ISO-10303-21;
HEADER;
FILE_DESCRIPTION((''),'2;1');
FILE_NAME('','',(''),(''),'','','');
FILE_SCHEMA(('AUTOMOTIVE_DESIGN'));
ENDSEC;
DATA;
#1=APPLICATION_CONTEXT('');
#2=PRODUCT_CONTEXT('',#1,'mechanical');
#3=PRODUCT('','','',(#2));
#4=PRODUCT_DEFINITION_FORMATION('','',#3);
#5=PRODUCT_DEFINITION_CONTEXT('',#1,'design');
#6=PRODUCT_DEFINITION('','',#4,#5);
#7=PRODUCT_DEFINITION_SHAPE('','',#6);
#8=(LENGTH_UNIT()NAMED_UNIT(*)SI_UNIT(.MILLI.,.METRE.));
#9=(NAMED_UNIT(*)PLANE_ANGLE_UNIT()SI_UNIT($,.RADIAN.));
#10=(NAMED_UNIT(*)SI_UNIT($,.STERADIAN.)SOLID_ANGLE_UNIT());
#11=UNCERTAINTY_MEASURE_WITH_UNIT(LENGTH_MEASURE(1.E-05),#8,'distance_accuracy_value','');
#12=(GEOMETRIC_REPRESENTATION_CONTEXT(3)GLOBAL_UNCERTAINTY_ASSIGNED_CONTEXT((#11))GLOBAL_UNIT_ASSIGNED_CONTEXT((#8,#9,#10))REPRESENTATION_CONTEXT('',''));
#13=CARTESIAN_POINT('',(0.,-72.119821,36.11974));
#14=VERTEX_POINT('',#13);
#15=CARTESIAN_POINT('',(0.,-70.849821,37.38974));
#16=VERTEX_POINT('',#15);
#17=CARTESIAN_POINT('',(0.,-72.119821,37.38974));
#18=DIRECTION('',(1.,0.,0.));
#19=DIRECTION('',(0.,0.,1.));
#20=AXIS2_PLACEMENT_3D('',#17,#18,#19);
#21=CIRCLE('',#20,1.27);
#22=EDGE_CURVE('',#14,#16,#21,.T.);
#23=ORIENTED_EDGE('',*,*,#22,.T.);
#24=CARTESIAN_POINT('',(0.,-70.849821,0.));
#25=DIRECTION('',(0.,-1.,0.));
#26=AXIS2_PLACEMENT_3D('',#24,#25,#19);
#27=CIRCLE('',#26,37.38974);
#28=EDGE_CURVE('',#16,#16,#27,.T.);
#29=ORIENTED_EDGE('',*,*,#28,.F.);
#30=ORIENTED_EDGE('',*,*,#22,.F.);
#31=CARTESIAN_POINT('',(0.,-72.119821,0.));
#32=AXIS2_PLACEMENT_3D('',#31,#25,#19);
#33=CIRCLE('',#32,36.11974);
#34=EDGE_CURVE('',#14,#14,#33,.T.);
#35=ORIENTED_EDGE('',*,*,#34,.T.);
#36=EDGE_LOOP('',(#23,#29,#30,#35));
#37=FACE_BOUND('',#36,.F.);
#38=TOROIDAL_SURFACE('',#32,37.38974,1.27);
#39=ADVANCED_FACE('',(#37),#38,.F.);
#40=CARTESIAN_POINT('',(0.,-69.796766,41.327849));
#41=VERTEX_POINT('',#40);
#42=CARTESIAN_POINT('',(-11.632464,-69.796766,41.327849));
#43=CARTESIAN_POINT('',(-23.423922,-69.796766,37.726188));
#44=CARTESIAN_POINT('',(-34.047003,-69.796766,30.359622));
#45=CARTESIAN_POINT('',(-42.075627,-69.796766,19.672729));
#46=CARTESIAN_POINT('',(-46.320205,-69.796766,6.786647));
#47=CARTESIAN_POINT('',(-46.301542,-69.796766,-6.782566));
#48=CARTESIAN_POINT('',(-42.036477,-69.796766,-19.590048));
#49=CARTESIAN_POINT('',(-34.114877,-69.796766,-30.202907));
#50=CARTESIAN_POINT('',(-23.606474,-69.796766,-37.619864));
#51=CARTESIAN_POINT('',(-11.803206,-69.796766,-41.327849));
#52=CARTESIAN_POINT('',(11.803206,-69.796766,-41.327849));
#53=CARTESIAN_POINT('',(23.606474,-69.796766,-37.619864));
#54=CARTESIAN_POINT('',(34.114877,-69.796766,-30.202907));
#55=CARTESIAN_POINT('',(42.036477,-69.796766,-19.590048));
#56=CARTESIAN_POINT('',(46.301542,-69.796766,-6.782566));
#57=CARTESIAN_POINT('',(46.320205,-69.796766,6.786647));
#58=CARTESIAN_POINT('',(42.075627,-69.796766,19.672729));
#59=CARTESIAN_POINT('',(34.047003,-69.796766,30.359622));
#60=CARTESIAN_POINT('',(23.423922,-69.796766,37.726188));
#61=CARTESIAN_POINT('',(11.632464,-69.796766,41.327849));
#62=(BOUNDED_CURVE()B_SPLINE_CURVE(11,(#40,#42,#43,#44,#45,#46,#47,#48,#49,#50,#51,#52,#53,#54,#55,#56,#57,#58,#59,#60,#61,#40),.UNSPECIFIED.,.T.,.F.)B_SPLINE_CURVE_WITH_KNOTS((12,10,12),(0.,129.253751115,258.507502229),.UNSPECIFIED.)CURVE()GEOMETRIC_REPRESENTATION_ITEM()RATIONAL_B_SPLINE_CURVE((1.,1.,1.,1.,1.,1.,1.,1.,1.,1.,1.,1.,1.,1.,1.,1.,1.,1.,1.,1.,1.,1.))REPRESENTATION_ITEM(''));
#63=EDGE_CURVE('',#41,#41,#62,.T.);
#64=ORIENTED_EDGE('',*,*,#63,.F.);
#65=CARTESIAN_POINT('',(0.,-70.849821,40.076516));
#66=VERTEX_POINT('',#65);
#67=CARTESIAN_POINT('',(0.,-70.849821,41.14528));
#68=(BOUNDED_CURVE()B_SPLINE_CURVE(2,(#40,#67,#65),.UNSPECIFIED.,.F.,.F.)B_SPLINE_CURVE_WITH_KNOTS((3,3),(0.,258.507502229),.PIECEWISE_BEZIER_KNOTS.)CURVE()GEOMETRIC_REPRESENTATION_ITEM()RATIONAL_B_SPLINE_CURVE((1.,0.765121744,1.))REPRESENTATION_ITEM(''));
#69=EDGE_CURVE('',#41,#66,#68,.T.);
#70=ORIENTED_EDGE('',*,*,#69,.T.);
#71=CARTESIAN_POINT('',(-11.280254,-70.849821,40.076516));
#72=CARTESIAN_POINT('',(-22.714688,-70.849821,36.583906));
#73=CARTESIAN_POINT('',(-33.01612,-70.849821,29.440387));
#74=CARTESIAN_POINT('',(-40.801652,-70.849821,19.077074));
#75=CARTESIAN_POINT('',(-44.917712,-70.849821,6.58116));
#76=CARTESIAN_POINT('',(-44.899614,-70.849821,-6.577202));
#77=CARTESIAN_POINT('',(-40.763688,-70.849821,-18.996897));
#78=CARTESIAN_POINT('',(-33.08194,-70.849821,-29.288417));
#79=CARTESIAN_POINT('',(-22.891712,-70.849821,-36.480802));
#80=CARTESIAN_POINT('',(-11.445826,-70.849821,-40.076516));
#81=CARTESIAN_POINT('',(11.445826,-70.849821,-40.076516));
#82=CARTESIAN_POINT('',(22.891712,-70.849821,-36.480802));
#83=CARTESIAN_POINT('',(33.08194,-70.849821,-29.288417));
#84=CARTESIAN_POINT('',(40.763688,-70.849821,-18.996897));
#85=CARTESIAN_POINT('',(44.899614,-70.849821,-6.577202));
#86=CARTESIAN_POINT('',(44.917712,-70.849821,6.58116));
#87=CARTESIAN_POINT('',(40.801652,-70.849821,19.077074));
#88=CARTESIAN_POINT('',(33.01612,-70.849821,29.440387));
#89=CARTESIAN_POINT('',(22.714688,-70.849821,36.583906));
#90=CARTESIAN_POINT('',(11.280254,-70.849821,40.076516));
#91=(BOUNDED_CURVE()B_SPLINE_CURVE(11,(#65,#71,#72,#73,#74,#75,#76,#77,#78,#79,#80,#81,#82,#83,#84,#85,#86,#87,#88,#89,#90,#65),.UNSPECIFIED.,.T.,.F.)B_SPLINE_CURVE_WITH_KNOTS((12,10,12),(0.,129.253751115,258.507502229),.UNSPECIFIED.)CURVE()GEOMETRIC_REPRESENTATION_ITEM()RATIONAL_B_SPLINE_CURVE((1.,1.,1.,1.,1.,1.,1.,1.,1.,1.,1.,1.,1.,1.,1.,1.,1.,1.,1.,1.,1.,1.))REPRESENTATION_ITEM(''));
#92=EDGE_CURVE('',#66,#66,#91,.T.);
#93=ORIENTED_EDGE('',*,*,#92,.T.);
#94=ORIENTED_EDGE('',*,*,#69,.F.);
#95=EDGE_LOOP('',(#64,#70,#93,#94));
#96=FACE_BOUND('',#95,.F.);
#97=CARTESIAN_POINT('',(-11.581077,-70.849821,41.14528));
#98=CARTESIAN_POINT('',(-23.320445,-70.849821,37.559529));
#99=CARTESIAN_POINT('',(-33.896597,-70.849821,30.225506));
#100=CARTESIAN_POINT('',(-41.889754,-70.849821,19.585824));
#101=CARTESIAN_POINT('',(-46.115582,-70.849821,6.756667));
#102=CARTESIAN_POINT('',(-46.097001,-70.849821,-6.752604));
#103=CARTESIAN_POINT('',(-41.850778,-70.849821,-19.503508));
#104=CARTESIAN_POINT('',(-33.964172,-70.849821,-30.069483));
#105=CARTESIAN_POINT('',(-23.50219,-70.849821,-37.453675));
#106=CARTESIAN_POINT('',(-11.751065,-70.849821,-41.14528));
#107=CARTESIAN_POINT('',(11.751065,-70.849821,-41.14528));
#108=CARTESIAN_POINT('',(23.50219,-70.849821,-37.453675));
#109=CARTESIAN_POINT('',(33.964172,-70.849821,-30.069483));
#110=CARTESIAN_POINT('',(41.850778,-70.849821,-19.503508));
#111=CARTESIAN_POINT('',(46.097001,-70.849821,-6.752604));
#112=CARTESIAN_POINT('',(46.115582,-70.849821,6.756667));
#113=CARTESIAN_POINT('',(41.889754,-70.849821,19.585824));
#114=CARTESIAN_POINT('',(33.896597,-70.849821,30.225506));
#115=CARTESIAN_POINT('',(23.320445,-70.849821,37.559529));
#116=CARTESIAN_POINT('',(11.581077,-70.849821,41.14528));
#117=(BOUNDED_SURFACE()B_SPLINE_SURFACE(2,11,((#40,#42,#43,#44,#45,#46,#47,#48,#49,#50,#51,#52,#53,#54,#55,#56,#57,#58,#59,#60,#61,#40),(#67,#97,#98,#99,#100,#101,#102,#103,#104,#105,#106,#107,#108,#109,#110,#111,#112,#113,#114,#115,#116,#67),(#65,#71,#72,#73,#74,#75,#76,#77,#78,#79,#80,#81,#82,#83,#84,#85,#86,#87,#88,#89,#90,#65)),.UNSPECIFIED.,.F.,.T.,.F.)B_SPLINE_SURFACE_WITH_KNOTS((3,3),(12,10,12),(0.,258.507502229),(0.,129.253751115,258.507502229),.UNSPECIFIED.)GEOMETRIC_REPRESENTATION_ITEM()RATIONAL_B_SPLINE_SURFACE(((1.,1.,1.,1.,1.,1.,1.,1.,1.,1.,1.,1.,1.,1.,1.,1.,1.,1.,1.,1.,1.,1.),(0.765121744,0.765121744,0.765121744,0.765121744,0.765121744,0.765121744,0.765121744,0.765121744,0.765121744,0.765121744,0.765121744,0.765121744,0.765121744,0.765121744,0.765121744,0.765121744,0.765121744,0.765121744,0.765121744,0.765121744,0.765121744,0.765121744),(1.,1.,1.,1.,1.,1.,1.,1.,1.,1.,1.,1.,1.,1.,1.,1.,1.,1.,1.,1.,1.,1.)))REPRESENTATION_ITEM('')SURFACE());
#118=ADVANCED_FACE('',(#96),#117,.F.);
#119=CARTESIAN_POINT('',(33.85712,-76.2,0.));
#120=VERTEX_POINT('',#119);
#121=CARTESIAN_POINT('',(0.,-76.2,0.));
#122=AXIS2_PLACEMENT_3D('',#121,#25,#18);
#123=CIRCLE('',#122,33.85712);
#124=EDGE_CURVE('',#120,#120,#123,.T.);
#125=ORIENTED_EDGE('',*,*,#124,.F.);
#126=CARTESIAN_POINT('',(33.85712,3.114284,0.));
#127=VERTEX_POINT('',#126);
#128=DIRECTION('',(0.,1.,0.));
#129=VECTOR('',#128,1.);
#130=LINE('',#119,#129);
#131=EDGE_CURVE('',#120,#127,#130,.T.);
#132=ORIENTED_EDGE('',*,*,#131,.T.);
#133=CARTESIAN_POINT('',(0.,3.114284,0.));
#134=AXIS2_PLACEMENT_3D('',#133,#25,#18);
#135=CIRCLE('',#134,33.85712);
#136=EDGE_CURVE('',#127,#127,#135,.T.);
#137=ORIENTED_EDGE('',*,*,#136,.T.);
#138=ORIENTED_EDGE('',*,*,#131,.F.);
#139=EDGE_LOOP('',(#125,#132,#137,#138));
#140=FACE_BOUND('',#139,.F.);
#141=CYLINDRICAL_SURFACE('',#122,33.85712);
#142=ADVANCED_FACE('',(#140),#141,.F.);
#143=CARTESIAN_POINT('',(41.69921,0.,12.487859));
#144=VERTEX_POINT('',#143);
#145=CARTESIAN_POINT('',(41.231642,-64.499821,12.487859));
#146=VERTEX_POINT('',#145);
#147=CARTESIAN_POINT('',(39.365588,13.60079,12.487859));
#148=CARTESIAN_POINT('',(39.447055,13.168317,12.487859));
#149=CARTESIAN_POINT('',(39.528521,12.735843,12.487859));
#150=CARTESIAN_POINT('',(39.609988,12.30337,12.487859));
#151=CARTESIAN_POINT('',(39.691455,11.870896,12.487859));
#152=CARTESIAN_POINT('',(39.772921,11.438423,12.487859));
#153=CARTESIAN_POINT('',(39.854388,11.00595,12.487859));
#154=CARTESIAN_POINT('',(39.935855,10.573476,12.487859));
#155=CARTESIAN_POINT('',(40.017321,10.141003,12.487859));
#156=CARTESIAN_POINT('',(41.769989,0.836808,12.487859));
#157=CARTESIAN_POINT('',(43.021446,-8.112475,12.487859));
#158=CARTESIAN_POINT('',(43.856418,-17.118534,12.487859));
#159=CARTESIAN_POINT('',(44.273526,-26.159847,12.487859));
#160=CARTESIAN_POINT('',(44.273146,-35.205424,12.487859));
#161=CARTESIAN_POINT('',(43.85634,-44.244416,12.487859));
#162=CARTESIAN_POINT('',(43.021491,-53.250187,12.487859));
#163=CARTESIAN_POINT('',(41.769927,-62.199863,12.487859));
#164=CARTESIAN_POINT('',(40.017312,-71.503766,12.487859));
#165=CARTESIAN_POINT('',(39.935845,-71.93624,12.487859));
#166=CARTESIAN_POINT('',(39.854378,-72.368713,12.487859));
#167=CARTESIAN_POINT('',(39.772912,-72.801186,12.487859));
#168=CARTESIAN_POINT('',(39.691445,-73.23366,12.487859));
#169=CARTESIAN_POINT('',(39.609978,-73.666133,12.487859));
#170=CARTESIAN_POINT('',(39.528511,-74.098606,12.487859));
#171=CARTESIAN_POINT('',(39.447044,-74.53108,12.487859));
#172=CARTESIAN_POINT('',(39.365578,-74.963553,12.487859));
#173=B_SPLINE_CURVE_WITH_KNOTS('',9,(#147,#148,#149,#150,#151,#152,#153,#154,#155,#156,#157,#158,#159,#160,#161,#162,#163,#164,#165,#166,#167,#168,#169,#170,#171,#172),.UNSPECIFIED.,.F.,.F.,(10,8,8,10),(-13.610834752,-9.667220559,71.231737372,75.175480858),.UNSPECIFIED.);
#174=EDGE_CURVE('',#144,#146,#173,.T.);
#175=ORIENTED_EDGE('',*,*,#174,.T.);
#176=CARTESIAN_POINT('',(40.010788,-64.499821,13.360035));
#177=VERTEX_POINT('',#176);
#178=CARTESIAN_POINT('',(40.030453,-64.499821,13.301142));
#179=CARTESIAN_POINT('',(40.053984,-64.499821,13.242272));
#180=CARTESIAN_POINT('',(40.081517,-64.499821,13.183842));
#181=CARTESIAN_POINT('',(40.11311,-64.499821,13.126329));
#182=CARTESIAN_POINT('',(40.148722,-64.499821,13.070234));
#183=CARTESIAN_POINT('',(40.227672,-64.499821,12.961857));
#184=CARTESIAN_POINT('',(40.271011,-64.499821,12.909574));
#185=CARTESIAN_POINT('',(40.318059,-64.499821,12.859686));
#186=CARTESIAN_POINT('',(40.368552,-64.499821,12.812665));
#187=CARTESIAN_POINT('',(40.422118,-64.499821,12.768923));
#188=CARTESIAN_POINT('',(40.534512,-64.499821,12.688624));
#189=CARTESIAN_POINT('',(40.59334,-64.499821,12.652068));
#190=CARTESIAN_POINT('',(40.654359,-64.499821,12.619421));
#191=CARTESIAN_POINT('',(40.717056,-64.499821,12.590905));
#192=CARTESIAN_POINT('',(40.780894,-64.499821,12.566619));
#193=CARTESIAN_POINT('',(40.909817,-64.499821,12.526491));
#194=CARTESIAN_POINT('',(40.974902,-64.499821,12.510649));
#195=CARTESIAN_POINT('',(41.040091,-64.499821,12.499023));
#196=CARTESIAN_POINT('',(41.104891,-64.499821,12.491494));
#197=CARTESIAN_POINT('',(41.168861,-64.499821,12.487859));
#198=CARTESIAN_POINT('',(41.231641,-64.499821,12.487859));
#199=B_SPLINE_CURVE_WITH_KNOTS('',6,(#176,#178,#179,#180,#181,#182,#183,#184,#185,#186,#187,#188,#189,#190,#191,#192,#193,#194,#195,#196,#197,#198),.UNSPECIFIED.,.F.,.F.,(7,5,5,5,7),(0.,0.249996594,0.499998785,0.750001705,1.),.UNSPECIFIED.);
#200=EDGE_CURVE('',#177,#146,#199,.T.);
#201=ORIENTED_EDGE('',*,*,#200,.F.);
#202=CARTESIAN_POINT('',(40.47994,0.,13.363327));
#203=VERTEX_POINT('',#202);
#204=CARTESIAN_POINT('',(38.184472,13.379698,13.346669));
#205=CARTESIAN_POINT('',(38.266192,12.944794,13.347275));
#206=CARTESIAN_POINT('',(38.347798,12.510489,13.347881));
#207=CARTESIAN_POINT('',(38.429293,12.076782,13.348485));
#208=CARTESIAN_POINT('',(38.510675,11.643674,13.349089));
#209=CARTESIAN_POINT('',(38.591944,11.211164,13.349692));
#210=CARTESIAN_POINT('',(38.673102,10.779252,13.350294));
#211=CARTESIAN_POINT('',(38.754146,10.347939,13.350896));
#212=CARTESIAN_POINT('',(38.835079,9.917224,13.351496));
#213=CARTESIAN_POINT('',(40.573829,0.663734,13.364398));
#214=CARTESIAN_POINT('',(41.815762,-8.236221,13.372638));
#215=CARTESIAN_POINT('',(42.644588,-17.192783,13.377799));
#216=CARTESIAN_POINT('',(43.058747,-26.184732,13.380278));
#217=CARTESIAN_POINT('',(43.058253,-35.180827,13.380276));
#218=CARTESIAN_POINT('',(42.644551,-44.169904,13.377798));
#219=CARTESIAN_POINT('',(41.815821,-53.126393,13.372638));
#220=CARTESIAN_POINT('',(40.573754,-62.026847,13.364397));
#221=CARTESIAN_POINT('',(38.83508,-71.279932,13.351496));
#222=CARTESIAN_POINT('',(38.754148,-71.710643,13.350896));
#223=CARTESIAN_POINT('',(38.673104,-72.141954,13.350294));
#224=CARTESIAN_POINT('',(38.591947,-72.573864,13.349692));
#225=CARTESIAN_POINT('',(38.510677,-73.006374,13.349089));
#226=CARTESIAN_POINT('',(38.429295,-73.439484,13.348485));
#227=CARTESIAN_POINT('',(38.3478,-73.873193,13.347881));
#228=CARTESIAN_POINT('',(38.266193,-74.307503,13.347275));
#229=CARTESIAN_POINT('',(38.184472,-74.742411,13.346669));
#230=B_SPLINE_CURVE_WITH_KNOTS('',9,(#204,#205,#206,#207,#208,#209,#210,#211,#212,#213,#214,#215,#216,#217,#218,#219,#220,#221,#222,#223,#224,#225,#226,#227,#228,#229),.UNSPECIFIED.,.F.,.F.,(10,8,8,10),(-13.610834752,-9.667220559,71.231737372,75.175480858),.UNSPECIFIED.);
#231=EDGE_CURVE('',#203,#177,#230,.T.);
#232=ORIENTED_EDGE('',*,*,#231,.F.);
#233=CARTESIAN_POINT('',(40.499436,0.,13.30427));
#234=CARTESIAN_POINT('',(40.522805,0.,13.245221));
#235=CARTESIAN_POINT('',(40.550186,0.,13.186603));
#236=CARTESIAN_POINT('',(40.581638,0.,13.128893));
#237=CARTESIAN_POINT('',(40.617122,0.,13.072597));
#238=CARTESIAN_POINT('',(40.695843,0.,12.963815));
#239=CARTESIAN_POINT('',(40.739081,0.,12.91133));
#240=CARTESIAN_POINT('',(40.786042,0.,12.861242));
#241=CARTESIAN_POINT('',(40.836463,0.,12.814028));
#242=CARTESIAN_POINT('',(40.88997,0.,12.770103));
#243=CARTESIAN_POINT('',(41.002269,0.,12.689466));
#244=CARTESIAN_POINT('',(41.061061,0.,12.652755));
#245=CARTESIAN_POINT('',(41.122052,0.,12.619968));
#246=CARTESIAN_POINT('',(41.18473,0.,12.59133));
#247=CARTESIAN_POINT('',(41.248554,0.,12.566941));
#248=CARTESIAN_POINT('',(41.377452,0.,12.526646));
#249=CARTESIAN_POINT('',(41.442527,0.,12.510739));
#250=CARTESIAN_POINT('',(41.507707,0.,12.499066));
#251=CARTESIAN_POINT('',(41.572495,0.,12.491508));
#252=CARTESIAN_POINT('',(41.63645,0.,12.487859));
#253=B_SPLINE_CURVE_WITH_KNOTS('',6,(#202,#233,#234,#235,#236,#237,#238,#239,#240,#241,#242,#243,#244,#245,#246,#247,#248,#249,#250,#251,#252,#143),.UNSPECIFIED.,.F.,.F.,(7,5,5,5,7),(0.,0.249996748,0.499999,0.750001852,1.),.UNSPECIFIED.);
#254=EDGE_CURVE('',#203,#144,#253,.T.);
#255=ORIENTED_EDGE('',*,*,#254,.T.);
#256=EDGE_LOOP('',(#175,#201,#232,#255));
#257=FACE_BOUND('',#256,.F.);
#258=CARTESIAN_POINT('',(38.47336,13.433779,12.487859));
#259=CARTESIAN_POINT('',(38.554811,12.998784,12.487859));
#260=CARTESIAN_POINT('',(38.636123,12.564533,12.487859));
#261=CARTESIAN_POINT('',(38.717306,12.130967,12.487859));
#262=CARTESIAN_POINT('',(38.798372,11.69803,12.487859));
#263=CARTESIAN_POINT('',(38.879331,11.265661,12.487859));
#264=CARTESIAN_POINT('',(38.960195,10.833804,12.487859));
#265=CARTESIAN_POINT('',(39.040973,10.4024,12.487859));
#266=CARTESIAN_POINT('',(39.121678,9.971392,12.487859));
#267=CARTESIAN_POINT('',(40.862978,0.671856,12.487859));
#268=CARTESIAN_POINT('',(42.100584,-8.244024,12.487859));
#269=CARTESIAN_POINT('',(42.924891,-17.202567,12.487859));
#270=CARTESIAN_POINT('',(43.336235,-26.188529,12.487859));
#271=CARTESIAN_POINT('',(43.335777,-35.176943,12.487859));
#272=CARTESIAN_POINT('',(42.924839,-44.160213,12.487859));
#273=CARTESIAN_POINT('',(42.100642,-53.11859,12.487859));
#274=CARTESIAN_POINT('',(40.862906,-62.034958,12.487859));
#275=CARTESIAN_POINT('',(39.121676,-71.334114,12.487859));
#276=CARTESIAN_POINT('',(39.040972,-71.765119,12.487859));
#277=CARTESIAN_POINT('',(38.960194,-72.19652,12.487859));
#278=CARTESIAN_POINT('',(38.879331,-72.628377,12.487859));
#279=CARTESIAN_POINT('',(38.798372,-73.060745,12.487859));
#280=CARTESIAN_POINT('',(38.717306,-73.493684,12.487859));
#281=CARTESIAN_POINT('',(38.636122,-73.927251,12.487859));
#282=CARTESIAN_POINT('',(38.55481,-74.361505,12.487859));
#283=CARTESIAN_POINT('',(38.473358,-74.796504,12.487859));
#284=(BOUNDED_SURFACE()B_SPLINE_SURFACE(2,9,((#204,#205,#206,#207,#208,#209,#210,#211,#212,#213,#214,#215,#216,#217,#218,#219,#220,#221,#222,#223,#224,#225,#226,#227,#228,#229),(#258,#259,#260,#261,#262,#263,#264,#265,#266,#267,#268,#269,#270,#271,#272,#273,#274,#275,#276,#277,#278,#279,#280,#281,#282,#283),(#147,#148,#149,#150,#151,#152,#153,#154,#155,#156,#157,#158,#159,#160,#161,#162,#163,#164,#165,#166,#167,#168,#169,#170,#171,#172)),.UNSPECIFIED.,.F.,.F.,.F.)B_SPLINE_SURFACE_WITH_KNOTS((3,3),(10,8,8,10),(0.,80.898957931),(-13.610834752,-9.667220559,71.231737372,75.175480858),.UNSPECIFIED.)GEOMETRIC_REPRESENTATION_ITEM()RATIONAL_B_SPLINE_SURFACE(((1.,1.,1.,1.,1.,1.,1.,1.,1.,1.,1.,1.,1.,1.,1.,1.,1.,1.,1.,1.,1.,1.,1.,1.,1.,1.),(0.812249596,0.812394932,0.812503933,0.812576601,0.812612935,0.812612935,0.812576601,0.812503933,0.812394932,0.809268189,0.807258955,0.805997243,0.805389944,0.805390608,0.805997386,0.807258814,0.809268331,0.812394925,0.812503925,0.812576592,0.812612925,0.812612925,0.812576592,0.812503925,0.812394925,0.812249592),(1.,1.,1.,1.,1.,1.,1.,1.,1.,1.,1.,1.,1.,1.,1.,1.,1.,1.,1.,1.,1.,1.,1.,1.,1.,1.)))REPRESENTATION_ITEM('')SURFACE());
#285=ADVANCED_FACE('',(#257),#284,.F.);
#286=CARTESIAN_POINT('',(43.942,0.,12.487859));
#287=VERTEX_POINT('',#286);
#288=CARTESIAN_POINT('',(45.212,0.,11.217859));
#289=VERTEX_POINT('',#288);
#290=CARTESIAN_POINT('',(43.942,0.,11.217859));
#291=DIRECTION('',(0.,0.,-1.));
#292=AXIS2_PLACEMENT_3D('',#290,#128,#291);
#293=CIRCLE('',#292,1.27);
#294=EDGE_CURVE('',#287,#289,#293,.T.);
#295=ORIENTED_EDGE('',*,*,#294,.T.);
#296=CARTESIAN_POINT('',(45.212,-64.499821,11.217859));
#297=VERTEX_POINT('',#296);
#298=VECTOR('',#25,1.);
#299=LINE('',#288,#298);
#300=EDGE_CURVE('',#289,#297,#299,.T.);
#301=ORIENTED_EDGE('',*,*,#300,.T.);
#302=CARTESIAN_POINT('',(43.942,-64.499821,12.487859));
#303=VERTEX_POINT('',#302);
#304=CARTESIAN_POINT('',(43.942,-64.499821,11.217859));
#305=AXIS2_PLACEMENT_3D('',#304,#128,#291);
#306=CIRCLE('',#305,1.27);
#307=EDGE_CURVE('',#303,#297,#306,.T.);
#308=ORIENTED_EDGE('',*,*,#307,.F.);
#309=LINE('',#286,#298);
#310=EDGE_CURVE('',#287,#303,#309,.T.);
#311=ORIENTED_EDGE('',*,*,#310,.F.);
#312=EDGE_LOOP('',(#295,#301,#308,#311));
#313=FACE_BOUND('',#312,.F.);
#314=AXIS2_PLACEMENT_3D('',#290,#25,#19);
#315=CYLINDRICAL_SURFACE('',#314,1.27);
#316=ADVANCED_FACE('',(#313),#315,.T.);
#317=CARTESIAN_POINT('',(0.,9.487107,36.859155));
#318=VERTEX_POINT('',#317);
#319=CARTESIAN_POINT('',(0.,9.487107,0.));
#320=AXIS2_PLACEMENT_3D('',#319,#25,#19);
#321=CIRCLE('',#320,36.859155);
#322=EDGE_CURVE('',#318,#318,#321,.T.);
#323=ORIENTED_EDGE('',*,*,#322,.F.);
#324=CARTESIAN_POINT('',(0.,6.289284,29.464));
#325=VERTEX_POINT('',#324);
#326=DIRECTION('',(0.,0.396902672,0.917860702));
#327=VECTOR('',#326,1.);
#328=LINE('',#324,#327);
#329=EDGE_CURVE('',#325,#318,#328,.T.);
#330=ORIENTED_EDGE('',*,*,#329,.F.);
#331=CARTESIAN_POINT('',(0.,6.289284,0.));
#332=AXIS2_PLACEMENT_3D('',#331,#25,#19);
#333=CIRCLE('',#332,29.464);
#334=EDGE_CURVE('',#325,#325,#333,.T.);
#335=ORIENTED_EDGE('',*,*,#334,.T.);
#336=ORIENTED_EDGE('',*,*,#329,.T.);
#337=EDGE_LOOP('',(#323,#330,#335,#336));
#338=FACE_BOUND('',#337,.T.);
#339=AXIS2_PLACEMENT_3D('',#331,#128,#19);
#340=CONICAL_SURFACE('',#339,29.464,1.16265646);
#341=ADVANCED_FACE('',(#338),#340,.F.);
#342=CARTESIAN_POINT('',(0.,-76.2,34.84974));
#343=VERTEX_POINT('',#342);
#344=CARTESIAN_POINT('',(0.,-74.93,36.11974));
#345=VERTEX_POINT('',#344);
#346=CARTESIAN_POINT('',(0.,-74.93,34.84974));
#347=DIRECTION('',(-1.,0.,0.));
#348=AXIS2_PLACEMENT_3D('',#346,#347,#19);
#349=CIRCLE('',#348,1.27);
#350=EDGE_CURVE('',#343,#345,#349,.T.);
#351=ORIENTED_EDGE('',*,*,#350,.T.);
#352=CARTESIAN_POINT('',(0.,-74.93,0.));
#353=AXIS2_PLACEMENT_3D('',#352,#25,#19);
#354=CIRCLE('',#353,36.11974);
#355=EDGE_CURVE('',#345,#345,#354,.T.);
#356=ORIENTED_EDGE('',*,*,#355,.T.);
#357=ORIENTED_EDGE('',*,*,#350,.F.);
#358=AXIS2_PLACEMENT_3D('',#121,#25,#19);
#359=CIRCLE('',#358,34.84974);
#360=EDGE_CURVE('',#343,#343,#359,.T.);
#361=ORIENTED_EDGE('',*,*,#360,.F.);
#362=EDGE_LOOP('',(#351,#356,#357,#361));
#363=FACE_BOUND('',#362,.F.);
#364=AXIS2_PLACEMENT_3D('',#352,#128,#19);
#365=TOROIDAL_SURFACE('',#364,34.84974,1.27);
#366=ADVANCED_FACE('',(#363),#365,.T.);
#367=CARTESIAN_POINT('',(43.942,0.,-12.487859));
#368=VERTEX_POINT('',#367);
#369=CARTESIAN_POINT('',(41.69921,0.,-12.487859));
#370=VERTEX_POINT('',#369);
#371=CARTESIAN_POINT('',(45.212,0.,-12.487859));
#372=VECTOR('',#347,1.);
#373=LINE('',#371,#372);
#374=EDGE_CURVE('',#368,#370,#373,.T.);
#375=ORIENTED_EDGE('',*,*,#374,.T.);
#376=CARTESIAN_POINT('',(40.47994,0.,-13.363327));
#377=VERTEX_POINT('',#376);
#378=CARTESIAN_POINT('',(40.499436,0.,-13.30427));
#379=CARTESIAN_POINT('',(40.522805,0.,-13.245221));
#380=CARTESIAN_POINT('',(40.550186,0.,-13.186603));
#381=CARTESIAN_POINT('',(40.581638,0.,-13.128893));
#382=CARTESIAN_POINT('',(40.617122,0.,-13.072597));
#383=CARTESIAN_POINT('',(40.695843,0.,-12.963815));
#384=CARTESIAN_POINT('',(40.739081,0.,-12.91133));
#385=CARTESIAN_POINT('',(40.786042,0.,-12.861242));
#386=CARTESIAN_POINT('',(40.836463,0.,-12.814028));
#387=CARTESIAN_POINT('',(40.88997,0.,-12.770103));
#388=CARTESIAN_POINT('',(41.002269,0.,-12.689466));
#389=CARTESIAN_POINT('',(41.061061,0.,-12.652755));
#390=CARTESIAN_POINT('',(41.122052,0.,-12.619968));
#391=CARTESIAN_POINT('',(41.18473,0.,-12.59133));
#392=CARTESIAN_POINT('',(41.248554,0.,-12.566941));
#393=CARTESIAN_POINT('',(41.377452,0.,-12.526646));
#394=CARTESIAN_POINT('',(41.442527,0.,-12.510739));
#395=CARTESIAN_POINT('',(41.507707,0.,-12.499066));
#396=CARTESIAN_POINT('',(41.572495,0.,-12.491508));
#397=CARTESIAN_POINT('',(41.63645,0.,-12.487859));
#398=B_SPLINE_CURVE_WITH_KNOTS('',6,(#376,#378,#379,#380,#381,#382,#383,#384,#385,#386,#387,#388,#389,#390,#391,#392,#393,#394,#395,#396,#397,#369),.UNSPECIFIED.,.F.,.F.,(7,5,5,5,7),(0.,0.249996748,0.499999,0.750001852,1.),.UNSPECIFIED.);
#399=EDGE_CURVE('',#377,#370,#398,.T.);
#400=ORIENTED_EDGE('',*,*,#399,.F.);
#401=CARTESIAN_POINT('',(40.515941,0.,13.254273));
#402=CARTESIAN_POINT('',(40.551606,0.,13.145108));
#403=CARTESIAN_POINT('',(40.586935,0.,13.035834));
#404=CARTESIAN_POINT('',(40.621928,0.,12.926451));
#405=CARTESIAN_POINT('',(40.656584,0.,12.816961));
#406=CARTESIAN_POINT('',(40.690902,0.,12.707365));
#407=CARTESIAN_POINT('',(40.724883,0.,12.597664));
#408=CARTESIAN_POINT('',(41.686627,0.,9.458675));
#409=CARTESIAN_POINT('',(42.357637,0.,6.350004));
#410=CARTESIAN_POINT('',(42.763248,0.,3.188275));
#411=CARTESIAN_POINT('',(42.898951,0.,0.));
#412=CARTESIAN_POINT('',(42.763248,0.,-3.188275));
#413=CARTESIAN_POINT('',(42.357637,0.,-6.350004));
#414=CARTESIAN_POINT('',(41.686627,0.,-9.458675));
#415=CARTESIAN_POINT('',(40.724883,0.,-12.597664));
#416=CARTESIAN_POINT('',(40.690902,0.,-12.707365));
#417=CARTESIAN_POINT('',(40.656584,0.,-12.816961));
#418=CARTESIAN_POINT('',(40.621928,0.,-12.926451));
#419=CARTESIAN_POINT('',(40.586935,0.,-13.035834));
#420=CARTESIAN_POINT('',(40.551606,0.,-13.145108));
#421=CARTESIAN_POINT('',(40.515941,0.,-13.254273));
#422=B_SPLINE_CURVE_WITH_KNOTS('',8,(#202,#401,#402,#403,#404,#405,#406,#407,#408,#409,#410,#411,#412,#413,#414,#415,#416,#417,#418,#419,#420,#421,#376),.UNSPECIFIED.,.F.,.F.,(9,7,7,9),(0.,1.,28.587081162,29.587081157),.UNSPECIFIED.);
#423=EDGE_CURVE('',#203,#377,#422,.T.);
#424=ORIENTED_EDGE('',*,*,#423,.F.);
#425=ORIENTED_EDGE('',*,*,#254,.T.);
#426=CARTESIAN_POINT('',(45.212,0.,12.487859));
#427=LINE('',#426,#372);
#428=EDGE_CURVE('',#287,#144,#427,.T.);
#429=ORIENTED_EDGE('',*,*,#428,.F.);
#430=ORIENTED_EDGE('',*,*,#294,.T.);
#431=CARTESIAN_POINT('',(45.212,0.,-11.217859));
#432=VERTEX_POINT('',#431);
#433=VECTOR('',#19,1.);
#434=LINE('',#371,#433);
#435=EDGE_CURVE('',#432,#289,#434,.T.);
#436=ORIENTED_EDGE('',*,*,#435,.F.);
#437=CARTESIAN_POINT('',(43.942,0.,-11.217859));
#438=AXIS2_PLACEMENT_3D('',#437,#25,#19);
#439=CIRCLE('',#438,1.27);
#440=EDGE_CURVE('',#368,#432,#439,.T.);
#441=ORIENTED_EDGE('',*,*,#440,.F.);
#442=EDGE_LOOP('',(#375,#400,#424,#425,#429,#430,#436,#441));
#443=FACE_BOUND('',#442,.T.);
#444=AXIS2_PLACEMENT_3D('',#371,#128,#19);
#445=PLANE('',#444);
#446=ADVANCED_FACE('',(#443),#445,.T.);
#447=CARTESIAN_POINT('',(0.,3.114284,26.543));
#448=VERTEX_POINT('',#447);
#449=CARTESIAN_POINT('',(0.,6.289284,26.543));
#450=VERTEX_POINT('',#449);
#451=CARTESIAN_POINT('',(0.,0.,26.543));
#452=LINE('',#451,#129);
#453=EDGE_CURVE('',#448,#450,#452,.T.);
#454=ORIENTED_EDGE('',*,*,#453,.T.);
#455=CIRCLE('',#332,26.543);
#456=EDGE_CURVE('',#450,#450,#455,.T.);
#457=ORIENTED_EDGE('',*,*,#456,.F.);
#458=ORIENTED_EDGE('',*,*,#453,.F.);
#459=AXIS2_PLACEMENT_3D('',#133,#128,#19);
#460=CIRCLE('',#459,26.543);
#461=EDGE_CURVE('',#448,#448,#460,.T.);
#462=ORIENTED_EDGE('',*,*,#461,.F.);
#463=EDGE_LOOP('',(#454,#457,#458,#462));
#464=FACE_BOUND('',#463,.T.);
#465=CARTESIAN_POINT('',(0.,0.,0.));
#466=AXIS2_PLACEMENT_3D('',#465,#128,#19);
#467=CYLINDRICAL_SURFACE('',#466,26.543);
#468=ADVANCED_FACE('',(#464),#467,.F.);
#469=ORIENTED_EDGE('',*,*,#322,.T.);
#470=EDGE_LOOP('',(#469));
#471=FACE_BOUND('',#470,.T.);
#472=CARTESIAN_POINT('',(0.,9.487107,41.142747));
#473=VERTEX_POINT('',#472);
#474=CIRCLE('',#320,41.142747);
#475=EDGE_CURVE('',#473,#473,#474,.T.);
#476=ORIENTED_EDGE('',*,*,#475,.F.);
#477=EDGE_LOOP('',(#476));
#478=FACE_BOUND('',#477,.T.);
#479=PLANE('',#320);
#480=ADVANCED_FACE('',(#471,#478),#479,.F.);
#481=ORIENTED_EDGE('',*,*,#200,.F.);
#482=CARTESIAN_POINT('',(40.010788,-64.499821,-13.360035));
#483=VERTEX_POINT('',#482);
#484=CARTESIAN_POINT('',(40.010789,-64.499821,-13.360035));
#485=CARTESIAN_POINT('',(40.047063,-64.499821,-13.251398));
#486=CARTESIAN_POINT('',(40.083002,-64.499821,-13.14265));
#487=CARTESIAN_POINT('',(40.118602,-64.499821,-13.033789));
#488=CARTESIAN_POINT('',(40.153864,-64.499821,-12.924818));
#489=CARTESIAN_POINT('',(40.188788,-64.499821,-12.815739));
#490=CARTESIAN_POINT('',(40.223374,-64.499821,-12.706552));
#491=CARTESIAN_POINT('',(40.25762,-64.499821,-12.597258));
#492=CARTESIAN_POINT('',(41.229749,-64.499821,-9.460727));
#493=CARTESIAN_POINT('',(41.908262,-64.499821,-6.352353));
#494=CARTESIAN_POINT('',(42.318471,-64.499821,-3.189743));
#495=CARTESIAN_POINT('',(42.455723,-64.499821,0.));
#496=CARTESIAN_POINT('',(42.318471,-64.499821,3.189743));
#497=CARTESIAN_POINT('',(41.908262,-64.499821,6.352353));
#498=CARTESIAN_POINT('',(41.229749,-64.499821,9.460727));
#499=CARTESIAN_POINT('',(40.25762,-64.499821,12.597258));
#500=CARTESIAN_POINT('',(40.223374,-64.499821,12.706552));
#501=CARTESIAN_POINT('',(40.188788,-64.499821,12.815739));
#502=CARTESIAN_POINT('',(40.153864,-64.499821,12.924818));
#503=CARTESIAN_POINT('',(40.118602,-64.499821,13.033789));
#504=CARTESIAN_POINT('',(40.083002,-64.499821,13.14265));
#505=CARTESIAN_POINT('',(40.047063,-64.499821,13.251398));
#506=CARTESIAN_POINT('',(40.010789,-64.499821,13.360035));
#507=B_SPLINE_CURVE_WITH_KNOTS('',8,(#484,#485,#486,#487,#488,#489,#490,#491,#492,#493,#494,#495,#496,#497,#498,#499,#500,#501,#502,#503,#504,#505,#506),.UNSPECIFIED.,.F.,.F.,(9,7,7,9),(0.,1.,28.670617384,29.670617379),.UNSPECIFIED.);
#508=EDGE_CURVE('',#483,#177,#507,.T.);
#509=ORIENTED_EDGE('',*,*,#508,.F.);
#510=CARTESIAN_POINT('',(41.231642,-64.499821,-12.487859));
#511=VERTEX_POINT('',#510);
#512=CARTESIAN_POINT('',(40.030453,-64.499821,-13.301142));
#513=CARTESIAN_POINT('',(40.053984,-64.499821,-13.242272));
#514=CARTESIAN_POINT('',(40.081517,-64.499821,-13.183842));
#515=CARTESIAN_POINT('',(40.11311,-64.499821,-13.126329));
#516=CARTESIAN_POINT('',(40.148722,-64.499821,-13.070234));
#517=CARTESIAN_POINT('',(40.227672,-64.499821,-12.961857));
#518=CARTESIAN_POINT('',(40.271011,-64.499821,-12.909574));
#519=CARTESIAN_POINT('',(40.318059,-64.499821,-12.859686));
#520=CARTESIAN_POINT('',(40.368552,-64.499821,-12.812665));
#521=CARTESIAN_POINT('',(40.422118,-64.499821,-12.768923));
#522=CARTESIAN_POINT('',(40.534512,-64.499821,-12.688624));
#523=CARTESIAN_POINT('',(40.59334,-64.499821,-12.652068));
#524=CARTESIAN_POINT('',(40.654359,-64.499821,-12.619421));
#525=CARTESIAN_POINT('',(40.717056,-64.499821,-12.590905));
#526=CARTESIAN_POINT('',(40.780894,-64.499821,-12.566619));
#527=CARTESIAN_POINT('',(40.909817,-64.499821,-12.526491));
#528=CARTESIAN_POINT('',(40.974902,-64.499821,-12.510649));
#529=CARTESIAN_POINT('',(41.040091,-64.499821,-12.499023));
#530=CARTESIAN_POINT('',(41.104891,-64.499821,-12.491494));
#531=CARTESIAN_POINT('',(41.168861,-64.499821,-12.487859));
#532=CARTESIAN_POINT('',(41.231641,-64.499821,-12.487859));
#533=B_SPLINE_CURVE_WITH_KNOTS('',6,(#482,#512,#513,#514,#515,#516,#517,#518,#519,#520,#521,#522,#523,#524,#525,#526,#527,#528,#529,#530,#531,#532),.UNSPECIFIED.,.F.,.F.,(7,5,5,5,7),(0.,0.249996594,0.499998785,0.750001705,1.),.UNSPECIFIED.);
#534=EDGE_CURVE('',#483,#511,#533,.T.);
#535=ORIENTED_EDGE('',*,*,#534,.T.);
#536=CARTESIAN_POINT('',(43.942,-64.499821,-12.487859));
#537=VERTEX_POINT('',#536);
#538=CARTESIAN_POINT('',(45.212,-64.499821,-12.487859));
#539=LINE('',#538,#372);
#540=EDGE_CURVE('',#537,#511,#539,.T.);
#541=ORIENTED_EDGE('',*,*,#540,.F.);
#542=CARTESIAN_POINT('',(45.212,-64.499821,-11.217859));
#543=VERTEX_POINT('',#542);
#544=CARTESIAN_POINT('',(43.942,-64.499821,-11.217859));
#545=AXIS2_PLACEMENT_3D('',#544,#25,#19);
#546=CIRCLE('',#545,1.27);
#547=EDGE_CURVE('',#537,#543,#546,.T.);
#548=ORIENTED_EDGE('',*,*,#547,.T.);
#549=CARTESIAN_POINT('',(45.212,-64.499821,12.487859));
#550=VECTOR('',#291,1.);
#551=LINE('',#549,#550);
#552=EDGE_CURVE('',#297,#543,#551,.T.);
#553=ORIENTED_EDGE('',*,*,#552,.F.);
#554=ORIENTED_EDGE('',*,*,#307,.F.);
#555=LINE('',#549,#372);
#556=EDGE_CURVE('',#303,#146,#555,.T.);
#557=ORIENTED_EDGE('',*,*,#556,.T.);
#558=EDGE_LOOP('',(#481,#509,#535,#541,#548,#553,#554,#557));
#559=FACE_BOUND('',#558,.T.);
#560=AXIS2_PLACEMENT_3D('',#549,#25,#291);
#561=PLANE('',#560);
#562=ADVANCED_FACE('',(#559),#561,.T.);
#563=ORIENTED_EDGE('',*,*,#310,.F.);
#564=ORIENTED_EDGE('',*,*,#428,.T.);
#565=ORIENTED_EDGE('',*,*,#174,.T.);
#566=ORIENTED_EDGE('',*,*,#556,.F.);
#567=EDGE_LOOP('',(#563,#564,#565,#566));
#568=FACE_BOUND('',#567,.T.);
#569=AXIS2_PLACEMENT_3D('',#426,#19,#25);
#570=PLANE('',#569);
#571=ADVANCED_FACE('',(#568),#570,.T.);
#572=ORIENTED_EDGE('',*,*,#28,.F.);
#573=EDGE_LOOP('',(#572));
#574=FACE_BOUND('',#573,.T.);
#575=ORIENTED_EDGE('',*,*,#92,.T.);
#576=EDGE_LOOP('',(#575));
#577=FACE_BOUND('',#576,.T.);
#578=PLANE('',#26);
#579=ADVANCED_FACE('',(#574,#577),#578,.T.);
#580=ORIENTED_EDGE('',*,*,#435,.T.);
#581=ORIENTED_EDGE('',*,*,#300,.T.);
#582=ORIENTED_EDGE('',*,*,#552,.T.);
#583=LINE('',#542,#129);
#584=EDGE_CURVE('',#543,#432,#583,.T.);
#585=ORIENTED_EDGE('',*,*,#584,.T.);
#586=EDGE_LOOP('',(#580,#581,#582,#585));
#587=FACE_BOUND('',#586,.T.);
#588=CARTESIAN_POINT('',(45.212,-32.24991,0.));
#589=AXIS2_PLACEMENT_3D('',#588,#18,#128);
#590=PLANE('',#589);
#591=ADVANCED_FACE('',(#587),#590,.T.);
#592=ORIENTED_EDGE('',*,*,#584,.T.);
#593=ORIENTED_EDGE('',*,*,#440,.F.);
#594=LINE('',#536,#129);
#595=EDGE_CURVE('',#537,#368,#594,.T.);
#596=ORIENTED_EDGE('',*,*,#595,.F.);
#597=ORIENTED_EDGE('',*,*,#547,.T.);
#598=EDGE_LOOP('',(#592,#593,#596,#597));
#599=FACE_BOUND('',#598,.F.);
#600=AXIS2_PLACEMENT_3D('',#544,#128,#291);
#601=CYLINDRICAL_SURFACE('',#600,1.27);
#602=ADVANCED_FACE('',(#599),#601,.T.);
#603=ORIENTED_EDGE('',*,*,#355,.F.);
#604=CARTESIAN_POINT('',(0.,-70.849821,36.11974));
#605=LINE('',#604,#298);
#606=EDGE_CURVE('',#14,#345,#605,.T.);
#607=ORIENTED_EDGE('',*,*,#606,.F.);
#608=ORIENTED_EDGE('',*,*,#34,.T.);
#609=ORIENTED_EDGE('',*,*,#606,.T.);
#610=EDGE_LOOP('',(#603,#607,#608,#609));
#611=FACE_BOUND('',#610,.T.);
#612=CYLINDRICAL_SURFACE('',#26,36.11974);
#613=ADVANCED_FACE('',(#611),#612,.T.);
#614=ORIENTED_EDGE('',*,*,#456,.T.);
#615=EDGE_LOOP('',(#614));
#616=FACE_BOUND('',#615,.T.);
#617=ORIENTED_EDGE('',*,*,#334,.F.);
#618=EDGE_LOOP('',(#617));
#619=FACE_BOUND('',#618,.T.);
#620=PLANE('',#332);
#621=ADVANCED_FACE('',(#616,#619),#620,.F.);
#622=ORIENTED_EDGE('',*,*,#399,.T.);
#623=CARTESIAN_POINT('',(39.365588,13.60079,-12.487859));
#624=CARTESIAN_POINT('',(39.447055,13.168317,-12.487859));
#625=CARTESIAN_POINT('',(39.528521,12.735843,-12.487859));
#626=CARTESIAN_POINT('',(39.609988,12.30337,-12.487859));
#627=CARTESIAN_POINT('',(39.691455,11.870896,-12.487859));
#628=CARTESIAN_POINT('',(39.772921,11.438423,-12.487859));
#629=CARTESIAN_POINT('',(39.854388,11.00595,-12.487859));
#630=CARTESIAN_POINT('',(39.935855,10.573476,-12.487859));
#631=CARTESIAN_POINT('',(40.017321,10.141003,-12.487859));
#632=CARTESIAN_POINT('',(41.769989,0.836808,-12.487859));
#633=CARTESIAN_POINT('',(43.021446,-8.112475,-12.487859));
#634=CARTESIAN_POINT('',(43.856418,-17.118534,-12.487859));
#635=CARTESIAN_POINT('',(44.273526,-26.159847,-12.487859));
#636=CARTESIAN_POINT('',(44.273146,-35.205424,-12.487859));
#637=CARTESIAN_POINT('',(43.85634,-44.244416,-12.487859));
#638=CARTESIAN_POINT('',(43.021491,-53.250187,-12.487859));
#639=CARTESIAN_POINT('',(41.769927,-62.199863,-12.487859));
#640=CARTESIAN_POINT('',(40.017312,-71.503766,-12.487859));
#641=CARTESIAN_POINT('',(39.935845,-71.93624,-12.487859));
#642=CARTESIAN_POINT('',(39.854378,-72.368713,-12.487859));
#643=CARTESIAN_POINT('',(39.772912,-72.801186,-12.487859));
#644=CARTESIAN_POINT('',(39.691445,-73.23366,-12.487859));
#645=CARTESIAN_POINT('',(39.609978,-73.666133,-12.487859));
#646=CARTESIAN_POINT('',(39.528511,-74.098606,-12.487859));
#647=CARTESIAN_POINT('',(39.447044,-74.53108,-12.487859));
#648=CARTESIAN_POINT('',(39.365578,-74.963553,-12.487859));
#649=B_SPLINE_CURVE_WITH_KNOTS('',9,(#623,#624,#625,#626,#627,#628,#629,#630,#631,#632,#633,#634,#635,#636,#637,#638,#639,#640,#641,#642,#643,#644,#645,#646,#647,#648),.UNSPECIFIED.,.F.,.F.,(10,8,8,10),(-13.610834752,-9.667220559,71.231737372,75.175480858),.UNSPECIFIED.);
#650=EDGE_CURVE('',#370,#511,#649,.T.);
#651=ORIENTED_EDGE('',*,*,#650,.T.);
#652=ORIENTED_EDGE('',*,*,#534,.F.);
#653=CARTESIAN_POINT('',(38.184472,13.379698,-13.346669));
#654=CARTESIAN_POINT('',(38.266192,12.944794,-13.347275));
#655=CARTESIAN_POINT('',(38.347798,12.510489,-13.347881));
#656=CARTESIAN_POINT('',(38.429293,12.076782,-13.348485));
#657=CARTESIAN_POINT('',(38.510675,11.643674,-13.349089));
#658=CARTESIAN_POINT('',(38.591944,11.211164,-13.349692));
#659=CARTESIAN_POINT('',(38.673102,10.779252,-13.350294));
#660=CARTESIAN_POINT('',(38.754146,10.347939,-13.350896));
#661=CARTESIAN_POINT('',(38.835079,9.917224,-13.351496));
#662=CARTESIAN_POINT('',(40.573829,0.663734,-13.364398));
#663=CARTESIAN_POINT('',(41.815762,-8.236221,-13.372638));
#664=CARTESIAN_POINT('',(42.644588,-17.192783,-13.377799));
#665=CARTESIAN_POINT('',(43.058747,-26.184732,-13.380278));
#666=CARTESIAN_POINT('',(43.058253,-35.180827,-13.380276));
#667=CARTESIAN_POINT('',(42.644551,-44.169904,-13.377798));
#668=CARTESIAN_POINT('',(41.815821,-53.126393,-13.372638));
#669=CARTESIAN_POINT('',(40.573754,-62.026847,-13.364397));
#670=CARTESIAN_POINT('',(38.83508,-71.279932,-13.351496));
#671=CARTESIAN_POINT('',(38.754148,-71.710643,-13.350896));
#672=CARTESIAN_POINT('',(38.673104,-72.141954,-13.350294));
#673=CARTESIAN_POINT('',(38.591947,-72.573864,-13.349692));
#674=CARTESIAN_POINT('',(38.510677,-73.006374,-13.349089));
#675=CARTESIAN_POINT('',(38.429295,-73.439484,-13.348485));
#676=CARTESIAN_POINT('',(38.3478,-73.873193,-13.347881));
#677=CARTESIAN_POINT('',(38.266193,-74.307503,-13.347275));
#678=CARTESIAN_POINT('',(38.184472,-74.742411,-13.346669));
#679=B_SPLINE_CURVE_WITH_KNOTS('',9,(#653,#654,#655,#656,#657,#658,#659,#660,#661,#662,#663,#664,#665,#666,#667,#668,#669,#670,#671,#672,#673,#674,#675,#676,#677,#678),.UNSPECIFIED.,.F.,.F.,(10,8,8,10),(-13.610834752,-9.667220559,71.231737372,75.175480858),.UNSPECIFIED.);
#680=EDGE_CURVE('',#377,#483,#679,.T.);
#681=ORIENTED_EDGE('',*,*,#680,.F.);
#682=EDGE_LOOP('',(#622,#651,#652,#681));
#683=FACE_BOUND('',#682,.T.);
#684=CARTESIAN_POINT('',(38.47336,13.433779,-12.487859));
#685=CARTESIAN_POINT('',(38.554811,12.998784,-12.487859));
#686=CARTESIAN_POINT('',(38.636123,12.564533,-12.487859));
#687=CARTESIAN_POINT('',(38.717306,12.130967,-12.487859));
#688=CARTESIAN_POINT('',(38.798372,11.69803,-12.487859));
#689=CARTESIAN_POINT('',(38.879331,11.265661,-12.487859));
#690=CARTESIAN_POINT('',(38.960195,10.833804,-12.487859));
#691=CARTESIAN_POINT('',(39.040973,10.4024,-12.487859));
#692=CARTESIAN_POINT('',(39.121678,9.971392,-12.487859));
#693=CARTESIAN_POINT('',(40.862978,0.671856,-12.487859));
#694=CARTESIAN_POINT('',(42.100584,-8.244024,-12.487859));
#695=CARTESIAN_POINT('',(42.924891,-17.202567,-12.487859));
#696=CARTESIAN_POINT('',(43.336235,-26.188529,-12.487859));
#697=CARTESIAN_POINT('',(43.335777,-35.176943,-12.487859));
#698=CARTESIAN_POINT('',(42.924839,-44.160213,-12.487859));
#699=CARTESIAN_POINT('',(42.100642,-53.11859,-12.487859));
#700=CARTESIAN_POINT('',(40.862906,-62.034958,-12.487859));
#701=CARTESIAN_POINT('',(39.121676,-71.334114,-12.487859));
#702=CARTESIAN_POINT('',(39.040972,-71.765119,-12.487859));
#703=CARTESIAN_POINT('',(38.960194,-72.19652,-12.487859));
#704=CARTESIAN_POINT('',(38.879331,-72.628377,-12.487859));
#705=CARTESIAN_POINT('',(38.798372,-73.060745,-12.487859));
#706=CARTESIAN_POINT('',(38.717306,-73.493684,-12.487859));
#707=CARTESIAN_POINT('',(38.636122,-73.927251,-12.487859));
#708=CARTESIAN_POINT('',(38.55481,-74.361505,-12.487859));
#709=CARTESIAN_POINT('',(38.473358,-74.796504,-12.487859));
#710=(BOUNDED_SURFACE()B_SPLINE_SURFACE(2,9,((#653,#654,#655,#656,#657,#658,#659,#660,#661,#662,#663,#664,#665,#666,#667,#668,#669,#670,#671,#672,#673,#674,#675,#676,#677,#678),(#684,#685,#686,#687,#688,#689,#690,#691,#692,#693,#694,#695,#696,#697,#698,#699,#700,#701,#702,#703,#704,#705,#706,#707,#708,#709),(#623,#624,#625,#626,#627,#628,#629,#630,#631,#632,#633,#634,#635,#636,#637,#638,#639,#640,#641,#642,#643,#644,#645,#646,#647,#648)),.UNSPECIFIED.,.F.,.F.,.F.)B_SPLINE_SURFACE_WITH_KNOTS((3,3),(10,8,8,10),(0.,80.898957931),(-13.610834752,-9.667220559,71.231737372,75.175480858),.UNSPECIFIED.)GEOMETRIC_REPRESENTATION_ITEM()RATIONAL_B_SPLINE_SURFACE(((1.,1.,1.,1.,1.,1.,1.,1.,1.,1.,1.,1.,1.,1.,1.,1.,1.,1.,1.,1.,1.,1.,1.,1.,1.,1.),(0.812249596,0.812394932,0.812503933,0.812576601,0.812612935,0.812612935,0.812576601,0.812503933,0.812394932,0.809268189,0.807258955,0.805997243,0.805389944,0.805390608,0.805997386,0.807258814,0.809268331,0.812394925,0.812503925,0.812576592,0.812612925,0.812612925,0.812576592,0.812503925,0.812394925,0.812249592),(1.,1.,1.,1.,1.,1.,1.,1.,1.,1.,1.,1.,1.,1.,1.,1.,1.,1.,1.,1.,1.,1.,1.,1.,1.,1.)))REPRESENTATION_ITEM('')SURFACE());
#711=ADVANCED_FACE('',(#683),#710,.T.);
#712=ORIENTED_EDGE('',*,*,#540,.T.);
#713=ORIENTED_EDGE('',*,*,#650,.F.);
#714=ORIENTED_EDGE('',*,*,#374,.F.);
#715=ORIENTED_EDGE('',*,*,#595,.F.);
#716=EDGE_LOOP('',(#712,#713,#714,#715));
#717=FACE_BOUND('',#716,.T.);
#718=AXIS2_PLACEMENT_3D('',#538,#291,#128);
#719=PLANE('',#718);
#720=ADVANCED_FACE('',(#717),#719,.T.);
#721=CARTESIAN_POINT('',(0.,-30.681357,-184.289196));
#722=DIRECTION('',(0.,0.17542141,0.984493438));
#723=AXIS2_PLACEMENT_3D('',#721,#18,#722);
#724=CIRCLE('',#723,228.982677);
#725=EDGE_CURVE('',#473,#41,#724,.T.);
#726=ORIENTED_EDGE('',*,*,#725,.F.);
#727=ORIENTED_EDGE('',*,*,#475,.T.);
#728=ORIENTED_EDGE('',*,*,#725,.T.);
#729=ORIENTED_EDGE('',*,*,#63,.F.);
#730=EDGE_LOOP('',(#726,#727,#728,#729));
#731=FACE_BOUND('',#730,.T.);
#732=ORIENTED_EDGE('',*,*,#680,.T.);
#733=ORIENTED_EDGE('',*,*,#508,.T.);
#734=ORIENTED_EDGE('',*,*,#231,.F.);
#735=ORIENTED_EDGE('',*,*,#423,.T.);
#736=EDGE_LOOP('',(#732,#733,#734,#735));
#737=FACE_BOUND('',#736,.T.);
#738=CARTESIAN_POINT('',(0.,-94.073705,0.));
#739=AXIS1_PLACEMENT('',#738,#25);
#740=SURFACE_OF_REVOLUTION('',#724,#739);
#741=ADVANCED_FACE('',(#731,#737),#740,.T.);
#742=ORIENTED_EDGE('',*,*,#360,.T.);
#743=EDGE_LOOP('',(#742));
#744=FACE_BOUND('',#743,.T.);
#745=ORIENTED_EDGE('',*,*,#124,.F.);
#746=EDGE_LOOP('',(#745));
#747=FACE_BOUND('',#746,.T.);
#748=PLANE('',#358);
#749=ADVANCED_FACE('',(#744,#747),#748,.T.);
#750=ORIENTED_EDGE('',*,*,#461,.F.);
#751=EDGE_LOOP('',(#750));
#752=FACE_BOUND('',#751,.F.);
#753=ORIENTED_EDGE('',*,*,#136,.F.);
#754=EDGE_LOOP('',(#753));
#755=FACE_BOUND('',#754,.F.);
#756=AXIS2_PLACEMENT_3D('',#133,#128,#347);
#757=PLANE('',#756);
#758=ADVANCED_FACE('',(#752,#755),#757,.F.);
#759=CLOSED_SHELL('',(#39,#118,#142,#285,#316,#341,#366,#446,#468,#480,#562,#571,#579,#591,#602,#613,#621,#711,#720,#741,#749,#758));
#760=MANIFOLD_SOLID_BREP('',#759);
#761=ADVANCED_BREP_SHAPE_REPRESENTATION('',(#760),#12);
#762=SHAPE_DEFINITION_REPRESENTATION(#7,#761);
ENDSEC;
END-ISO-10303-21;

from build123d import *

# Parameters (mm, degrees)
F3_R      = 26.543
F4_DEPTH  = 114.554
F6_R      = 28.5434977465
F7_DEPTH  = 79.315283745
F9_R      = 33.8571196856
F9_R_2    = 28.5434977465
F10_DEPTH = 79.314283745
F14_R     = 1.27


with BuildPart() as f2:
    # F0 (on Right) → F2 (revolve)
    with BuildSketch(Plane.YZ):
        with BuildLine():
            Line((-76.2, 0), (0, 0))
            Line((0, 0), (0, 26.543))
            Line((0, 26.543), (6.289283745, 26.543))
            Line((6.289283745, 26.543), (6.289283745, 29.464))
            Line((6.289283745, 29.464), (9.4871073961, 36.8591547012))
            Line((9.4871073961, 36.8591547012), (9.4871073961, 41.1427468061))
            ThreePointArc((9.4871073961, 41.1427468061), (-30.6813567877, 44.6934809621), (-70.8498209715, 41.1427468061))
            Line((-70.8498209715, 41.1427468061), (-70.8498209715, 36.1197404563))
            Line((-70.8498209715, 36.1197404563), (-76.2, 36.1197404563))
            Line((-76.2, 36.1197404563), (-76.2, 0))
        make_face()
    revolve(axis=Axis((0, -94.0737053752, 0), (0, -1, 0)))

    # F3 (on face) → F4 (cut)
    with BuildSketch(Plane(origin=(0, 0, 0), x_dir=(-1, 0, 0), z_dir=(0, 1, 0))):
        Circle(F3_R)
    extrude(amount=-F4_DEPTH, mode=Mode.SUBTRACT)

    # F6 (on offset) → F7 (cut, through all)
    with BuildSketch(Plane(origin=(0, 3.114283745, 0), x_dir=(-1, 0, 0), z_dir=(0, 1, 0))):
        Circle(F6_R)
    extrude(amount=-F7_DEPTH, mode=Mode.SUBTRACT)

    # F9 (on face) → F10 (cut, through all)
    with BuildSketch(Plane.XZ.offset(76.2)):
        Circle(F9_R)
        Circle(F9_R_2, mode=Mode.SUBTRACT)
    extrude(amount=-F10_DEPTH, mode=Mode.SUBTRACT)

    # F12 (on offset) → F13 (join, up to the next surface of F2)
    with BuildSketch(Plane.YZ.offset(45.212)):
        Polygon((0, -12.4878594652), (0, 0), (0, 12.4878594652), (-64.4998209715, 12.4878594652), (-64.4998209715, -12.4878594652), align=None)
    extrude(until=Until.NEXT, dir=(-1, 0, 0))

    # F14
    f14_edges = [f2.edges().sort_by_distance(p)[0] for p in [
        (0, -76.2, -36.11974),
        (0, -70.849821, -36.11974),
        (0, -70.849821, -41.142747),
        (42.907689, -32.267195, 12.487859),
        (45.212, -32.24991, 12.487859),
        (45.212, -32.24991, -12.487859),
        (42.907689, -32.267195, -12.487859),
    ]]
    fillet(f14_edges, radius=F14_R)


solid = f2.part
